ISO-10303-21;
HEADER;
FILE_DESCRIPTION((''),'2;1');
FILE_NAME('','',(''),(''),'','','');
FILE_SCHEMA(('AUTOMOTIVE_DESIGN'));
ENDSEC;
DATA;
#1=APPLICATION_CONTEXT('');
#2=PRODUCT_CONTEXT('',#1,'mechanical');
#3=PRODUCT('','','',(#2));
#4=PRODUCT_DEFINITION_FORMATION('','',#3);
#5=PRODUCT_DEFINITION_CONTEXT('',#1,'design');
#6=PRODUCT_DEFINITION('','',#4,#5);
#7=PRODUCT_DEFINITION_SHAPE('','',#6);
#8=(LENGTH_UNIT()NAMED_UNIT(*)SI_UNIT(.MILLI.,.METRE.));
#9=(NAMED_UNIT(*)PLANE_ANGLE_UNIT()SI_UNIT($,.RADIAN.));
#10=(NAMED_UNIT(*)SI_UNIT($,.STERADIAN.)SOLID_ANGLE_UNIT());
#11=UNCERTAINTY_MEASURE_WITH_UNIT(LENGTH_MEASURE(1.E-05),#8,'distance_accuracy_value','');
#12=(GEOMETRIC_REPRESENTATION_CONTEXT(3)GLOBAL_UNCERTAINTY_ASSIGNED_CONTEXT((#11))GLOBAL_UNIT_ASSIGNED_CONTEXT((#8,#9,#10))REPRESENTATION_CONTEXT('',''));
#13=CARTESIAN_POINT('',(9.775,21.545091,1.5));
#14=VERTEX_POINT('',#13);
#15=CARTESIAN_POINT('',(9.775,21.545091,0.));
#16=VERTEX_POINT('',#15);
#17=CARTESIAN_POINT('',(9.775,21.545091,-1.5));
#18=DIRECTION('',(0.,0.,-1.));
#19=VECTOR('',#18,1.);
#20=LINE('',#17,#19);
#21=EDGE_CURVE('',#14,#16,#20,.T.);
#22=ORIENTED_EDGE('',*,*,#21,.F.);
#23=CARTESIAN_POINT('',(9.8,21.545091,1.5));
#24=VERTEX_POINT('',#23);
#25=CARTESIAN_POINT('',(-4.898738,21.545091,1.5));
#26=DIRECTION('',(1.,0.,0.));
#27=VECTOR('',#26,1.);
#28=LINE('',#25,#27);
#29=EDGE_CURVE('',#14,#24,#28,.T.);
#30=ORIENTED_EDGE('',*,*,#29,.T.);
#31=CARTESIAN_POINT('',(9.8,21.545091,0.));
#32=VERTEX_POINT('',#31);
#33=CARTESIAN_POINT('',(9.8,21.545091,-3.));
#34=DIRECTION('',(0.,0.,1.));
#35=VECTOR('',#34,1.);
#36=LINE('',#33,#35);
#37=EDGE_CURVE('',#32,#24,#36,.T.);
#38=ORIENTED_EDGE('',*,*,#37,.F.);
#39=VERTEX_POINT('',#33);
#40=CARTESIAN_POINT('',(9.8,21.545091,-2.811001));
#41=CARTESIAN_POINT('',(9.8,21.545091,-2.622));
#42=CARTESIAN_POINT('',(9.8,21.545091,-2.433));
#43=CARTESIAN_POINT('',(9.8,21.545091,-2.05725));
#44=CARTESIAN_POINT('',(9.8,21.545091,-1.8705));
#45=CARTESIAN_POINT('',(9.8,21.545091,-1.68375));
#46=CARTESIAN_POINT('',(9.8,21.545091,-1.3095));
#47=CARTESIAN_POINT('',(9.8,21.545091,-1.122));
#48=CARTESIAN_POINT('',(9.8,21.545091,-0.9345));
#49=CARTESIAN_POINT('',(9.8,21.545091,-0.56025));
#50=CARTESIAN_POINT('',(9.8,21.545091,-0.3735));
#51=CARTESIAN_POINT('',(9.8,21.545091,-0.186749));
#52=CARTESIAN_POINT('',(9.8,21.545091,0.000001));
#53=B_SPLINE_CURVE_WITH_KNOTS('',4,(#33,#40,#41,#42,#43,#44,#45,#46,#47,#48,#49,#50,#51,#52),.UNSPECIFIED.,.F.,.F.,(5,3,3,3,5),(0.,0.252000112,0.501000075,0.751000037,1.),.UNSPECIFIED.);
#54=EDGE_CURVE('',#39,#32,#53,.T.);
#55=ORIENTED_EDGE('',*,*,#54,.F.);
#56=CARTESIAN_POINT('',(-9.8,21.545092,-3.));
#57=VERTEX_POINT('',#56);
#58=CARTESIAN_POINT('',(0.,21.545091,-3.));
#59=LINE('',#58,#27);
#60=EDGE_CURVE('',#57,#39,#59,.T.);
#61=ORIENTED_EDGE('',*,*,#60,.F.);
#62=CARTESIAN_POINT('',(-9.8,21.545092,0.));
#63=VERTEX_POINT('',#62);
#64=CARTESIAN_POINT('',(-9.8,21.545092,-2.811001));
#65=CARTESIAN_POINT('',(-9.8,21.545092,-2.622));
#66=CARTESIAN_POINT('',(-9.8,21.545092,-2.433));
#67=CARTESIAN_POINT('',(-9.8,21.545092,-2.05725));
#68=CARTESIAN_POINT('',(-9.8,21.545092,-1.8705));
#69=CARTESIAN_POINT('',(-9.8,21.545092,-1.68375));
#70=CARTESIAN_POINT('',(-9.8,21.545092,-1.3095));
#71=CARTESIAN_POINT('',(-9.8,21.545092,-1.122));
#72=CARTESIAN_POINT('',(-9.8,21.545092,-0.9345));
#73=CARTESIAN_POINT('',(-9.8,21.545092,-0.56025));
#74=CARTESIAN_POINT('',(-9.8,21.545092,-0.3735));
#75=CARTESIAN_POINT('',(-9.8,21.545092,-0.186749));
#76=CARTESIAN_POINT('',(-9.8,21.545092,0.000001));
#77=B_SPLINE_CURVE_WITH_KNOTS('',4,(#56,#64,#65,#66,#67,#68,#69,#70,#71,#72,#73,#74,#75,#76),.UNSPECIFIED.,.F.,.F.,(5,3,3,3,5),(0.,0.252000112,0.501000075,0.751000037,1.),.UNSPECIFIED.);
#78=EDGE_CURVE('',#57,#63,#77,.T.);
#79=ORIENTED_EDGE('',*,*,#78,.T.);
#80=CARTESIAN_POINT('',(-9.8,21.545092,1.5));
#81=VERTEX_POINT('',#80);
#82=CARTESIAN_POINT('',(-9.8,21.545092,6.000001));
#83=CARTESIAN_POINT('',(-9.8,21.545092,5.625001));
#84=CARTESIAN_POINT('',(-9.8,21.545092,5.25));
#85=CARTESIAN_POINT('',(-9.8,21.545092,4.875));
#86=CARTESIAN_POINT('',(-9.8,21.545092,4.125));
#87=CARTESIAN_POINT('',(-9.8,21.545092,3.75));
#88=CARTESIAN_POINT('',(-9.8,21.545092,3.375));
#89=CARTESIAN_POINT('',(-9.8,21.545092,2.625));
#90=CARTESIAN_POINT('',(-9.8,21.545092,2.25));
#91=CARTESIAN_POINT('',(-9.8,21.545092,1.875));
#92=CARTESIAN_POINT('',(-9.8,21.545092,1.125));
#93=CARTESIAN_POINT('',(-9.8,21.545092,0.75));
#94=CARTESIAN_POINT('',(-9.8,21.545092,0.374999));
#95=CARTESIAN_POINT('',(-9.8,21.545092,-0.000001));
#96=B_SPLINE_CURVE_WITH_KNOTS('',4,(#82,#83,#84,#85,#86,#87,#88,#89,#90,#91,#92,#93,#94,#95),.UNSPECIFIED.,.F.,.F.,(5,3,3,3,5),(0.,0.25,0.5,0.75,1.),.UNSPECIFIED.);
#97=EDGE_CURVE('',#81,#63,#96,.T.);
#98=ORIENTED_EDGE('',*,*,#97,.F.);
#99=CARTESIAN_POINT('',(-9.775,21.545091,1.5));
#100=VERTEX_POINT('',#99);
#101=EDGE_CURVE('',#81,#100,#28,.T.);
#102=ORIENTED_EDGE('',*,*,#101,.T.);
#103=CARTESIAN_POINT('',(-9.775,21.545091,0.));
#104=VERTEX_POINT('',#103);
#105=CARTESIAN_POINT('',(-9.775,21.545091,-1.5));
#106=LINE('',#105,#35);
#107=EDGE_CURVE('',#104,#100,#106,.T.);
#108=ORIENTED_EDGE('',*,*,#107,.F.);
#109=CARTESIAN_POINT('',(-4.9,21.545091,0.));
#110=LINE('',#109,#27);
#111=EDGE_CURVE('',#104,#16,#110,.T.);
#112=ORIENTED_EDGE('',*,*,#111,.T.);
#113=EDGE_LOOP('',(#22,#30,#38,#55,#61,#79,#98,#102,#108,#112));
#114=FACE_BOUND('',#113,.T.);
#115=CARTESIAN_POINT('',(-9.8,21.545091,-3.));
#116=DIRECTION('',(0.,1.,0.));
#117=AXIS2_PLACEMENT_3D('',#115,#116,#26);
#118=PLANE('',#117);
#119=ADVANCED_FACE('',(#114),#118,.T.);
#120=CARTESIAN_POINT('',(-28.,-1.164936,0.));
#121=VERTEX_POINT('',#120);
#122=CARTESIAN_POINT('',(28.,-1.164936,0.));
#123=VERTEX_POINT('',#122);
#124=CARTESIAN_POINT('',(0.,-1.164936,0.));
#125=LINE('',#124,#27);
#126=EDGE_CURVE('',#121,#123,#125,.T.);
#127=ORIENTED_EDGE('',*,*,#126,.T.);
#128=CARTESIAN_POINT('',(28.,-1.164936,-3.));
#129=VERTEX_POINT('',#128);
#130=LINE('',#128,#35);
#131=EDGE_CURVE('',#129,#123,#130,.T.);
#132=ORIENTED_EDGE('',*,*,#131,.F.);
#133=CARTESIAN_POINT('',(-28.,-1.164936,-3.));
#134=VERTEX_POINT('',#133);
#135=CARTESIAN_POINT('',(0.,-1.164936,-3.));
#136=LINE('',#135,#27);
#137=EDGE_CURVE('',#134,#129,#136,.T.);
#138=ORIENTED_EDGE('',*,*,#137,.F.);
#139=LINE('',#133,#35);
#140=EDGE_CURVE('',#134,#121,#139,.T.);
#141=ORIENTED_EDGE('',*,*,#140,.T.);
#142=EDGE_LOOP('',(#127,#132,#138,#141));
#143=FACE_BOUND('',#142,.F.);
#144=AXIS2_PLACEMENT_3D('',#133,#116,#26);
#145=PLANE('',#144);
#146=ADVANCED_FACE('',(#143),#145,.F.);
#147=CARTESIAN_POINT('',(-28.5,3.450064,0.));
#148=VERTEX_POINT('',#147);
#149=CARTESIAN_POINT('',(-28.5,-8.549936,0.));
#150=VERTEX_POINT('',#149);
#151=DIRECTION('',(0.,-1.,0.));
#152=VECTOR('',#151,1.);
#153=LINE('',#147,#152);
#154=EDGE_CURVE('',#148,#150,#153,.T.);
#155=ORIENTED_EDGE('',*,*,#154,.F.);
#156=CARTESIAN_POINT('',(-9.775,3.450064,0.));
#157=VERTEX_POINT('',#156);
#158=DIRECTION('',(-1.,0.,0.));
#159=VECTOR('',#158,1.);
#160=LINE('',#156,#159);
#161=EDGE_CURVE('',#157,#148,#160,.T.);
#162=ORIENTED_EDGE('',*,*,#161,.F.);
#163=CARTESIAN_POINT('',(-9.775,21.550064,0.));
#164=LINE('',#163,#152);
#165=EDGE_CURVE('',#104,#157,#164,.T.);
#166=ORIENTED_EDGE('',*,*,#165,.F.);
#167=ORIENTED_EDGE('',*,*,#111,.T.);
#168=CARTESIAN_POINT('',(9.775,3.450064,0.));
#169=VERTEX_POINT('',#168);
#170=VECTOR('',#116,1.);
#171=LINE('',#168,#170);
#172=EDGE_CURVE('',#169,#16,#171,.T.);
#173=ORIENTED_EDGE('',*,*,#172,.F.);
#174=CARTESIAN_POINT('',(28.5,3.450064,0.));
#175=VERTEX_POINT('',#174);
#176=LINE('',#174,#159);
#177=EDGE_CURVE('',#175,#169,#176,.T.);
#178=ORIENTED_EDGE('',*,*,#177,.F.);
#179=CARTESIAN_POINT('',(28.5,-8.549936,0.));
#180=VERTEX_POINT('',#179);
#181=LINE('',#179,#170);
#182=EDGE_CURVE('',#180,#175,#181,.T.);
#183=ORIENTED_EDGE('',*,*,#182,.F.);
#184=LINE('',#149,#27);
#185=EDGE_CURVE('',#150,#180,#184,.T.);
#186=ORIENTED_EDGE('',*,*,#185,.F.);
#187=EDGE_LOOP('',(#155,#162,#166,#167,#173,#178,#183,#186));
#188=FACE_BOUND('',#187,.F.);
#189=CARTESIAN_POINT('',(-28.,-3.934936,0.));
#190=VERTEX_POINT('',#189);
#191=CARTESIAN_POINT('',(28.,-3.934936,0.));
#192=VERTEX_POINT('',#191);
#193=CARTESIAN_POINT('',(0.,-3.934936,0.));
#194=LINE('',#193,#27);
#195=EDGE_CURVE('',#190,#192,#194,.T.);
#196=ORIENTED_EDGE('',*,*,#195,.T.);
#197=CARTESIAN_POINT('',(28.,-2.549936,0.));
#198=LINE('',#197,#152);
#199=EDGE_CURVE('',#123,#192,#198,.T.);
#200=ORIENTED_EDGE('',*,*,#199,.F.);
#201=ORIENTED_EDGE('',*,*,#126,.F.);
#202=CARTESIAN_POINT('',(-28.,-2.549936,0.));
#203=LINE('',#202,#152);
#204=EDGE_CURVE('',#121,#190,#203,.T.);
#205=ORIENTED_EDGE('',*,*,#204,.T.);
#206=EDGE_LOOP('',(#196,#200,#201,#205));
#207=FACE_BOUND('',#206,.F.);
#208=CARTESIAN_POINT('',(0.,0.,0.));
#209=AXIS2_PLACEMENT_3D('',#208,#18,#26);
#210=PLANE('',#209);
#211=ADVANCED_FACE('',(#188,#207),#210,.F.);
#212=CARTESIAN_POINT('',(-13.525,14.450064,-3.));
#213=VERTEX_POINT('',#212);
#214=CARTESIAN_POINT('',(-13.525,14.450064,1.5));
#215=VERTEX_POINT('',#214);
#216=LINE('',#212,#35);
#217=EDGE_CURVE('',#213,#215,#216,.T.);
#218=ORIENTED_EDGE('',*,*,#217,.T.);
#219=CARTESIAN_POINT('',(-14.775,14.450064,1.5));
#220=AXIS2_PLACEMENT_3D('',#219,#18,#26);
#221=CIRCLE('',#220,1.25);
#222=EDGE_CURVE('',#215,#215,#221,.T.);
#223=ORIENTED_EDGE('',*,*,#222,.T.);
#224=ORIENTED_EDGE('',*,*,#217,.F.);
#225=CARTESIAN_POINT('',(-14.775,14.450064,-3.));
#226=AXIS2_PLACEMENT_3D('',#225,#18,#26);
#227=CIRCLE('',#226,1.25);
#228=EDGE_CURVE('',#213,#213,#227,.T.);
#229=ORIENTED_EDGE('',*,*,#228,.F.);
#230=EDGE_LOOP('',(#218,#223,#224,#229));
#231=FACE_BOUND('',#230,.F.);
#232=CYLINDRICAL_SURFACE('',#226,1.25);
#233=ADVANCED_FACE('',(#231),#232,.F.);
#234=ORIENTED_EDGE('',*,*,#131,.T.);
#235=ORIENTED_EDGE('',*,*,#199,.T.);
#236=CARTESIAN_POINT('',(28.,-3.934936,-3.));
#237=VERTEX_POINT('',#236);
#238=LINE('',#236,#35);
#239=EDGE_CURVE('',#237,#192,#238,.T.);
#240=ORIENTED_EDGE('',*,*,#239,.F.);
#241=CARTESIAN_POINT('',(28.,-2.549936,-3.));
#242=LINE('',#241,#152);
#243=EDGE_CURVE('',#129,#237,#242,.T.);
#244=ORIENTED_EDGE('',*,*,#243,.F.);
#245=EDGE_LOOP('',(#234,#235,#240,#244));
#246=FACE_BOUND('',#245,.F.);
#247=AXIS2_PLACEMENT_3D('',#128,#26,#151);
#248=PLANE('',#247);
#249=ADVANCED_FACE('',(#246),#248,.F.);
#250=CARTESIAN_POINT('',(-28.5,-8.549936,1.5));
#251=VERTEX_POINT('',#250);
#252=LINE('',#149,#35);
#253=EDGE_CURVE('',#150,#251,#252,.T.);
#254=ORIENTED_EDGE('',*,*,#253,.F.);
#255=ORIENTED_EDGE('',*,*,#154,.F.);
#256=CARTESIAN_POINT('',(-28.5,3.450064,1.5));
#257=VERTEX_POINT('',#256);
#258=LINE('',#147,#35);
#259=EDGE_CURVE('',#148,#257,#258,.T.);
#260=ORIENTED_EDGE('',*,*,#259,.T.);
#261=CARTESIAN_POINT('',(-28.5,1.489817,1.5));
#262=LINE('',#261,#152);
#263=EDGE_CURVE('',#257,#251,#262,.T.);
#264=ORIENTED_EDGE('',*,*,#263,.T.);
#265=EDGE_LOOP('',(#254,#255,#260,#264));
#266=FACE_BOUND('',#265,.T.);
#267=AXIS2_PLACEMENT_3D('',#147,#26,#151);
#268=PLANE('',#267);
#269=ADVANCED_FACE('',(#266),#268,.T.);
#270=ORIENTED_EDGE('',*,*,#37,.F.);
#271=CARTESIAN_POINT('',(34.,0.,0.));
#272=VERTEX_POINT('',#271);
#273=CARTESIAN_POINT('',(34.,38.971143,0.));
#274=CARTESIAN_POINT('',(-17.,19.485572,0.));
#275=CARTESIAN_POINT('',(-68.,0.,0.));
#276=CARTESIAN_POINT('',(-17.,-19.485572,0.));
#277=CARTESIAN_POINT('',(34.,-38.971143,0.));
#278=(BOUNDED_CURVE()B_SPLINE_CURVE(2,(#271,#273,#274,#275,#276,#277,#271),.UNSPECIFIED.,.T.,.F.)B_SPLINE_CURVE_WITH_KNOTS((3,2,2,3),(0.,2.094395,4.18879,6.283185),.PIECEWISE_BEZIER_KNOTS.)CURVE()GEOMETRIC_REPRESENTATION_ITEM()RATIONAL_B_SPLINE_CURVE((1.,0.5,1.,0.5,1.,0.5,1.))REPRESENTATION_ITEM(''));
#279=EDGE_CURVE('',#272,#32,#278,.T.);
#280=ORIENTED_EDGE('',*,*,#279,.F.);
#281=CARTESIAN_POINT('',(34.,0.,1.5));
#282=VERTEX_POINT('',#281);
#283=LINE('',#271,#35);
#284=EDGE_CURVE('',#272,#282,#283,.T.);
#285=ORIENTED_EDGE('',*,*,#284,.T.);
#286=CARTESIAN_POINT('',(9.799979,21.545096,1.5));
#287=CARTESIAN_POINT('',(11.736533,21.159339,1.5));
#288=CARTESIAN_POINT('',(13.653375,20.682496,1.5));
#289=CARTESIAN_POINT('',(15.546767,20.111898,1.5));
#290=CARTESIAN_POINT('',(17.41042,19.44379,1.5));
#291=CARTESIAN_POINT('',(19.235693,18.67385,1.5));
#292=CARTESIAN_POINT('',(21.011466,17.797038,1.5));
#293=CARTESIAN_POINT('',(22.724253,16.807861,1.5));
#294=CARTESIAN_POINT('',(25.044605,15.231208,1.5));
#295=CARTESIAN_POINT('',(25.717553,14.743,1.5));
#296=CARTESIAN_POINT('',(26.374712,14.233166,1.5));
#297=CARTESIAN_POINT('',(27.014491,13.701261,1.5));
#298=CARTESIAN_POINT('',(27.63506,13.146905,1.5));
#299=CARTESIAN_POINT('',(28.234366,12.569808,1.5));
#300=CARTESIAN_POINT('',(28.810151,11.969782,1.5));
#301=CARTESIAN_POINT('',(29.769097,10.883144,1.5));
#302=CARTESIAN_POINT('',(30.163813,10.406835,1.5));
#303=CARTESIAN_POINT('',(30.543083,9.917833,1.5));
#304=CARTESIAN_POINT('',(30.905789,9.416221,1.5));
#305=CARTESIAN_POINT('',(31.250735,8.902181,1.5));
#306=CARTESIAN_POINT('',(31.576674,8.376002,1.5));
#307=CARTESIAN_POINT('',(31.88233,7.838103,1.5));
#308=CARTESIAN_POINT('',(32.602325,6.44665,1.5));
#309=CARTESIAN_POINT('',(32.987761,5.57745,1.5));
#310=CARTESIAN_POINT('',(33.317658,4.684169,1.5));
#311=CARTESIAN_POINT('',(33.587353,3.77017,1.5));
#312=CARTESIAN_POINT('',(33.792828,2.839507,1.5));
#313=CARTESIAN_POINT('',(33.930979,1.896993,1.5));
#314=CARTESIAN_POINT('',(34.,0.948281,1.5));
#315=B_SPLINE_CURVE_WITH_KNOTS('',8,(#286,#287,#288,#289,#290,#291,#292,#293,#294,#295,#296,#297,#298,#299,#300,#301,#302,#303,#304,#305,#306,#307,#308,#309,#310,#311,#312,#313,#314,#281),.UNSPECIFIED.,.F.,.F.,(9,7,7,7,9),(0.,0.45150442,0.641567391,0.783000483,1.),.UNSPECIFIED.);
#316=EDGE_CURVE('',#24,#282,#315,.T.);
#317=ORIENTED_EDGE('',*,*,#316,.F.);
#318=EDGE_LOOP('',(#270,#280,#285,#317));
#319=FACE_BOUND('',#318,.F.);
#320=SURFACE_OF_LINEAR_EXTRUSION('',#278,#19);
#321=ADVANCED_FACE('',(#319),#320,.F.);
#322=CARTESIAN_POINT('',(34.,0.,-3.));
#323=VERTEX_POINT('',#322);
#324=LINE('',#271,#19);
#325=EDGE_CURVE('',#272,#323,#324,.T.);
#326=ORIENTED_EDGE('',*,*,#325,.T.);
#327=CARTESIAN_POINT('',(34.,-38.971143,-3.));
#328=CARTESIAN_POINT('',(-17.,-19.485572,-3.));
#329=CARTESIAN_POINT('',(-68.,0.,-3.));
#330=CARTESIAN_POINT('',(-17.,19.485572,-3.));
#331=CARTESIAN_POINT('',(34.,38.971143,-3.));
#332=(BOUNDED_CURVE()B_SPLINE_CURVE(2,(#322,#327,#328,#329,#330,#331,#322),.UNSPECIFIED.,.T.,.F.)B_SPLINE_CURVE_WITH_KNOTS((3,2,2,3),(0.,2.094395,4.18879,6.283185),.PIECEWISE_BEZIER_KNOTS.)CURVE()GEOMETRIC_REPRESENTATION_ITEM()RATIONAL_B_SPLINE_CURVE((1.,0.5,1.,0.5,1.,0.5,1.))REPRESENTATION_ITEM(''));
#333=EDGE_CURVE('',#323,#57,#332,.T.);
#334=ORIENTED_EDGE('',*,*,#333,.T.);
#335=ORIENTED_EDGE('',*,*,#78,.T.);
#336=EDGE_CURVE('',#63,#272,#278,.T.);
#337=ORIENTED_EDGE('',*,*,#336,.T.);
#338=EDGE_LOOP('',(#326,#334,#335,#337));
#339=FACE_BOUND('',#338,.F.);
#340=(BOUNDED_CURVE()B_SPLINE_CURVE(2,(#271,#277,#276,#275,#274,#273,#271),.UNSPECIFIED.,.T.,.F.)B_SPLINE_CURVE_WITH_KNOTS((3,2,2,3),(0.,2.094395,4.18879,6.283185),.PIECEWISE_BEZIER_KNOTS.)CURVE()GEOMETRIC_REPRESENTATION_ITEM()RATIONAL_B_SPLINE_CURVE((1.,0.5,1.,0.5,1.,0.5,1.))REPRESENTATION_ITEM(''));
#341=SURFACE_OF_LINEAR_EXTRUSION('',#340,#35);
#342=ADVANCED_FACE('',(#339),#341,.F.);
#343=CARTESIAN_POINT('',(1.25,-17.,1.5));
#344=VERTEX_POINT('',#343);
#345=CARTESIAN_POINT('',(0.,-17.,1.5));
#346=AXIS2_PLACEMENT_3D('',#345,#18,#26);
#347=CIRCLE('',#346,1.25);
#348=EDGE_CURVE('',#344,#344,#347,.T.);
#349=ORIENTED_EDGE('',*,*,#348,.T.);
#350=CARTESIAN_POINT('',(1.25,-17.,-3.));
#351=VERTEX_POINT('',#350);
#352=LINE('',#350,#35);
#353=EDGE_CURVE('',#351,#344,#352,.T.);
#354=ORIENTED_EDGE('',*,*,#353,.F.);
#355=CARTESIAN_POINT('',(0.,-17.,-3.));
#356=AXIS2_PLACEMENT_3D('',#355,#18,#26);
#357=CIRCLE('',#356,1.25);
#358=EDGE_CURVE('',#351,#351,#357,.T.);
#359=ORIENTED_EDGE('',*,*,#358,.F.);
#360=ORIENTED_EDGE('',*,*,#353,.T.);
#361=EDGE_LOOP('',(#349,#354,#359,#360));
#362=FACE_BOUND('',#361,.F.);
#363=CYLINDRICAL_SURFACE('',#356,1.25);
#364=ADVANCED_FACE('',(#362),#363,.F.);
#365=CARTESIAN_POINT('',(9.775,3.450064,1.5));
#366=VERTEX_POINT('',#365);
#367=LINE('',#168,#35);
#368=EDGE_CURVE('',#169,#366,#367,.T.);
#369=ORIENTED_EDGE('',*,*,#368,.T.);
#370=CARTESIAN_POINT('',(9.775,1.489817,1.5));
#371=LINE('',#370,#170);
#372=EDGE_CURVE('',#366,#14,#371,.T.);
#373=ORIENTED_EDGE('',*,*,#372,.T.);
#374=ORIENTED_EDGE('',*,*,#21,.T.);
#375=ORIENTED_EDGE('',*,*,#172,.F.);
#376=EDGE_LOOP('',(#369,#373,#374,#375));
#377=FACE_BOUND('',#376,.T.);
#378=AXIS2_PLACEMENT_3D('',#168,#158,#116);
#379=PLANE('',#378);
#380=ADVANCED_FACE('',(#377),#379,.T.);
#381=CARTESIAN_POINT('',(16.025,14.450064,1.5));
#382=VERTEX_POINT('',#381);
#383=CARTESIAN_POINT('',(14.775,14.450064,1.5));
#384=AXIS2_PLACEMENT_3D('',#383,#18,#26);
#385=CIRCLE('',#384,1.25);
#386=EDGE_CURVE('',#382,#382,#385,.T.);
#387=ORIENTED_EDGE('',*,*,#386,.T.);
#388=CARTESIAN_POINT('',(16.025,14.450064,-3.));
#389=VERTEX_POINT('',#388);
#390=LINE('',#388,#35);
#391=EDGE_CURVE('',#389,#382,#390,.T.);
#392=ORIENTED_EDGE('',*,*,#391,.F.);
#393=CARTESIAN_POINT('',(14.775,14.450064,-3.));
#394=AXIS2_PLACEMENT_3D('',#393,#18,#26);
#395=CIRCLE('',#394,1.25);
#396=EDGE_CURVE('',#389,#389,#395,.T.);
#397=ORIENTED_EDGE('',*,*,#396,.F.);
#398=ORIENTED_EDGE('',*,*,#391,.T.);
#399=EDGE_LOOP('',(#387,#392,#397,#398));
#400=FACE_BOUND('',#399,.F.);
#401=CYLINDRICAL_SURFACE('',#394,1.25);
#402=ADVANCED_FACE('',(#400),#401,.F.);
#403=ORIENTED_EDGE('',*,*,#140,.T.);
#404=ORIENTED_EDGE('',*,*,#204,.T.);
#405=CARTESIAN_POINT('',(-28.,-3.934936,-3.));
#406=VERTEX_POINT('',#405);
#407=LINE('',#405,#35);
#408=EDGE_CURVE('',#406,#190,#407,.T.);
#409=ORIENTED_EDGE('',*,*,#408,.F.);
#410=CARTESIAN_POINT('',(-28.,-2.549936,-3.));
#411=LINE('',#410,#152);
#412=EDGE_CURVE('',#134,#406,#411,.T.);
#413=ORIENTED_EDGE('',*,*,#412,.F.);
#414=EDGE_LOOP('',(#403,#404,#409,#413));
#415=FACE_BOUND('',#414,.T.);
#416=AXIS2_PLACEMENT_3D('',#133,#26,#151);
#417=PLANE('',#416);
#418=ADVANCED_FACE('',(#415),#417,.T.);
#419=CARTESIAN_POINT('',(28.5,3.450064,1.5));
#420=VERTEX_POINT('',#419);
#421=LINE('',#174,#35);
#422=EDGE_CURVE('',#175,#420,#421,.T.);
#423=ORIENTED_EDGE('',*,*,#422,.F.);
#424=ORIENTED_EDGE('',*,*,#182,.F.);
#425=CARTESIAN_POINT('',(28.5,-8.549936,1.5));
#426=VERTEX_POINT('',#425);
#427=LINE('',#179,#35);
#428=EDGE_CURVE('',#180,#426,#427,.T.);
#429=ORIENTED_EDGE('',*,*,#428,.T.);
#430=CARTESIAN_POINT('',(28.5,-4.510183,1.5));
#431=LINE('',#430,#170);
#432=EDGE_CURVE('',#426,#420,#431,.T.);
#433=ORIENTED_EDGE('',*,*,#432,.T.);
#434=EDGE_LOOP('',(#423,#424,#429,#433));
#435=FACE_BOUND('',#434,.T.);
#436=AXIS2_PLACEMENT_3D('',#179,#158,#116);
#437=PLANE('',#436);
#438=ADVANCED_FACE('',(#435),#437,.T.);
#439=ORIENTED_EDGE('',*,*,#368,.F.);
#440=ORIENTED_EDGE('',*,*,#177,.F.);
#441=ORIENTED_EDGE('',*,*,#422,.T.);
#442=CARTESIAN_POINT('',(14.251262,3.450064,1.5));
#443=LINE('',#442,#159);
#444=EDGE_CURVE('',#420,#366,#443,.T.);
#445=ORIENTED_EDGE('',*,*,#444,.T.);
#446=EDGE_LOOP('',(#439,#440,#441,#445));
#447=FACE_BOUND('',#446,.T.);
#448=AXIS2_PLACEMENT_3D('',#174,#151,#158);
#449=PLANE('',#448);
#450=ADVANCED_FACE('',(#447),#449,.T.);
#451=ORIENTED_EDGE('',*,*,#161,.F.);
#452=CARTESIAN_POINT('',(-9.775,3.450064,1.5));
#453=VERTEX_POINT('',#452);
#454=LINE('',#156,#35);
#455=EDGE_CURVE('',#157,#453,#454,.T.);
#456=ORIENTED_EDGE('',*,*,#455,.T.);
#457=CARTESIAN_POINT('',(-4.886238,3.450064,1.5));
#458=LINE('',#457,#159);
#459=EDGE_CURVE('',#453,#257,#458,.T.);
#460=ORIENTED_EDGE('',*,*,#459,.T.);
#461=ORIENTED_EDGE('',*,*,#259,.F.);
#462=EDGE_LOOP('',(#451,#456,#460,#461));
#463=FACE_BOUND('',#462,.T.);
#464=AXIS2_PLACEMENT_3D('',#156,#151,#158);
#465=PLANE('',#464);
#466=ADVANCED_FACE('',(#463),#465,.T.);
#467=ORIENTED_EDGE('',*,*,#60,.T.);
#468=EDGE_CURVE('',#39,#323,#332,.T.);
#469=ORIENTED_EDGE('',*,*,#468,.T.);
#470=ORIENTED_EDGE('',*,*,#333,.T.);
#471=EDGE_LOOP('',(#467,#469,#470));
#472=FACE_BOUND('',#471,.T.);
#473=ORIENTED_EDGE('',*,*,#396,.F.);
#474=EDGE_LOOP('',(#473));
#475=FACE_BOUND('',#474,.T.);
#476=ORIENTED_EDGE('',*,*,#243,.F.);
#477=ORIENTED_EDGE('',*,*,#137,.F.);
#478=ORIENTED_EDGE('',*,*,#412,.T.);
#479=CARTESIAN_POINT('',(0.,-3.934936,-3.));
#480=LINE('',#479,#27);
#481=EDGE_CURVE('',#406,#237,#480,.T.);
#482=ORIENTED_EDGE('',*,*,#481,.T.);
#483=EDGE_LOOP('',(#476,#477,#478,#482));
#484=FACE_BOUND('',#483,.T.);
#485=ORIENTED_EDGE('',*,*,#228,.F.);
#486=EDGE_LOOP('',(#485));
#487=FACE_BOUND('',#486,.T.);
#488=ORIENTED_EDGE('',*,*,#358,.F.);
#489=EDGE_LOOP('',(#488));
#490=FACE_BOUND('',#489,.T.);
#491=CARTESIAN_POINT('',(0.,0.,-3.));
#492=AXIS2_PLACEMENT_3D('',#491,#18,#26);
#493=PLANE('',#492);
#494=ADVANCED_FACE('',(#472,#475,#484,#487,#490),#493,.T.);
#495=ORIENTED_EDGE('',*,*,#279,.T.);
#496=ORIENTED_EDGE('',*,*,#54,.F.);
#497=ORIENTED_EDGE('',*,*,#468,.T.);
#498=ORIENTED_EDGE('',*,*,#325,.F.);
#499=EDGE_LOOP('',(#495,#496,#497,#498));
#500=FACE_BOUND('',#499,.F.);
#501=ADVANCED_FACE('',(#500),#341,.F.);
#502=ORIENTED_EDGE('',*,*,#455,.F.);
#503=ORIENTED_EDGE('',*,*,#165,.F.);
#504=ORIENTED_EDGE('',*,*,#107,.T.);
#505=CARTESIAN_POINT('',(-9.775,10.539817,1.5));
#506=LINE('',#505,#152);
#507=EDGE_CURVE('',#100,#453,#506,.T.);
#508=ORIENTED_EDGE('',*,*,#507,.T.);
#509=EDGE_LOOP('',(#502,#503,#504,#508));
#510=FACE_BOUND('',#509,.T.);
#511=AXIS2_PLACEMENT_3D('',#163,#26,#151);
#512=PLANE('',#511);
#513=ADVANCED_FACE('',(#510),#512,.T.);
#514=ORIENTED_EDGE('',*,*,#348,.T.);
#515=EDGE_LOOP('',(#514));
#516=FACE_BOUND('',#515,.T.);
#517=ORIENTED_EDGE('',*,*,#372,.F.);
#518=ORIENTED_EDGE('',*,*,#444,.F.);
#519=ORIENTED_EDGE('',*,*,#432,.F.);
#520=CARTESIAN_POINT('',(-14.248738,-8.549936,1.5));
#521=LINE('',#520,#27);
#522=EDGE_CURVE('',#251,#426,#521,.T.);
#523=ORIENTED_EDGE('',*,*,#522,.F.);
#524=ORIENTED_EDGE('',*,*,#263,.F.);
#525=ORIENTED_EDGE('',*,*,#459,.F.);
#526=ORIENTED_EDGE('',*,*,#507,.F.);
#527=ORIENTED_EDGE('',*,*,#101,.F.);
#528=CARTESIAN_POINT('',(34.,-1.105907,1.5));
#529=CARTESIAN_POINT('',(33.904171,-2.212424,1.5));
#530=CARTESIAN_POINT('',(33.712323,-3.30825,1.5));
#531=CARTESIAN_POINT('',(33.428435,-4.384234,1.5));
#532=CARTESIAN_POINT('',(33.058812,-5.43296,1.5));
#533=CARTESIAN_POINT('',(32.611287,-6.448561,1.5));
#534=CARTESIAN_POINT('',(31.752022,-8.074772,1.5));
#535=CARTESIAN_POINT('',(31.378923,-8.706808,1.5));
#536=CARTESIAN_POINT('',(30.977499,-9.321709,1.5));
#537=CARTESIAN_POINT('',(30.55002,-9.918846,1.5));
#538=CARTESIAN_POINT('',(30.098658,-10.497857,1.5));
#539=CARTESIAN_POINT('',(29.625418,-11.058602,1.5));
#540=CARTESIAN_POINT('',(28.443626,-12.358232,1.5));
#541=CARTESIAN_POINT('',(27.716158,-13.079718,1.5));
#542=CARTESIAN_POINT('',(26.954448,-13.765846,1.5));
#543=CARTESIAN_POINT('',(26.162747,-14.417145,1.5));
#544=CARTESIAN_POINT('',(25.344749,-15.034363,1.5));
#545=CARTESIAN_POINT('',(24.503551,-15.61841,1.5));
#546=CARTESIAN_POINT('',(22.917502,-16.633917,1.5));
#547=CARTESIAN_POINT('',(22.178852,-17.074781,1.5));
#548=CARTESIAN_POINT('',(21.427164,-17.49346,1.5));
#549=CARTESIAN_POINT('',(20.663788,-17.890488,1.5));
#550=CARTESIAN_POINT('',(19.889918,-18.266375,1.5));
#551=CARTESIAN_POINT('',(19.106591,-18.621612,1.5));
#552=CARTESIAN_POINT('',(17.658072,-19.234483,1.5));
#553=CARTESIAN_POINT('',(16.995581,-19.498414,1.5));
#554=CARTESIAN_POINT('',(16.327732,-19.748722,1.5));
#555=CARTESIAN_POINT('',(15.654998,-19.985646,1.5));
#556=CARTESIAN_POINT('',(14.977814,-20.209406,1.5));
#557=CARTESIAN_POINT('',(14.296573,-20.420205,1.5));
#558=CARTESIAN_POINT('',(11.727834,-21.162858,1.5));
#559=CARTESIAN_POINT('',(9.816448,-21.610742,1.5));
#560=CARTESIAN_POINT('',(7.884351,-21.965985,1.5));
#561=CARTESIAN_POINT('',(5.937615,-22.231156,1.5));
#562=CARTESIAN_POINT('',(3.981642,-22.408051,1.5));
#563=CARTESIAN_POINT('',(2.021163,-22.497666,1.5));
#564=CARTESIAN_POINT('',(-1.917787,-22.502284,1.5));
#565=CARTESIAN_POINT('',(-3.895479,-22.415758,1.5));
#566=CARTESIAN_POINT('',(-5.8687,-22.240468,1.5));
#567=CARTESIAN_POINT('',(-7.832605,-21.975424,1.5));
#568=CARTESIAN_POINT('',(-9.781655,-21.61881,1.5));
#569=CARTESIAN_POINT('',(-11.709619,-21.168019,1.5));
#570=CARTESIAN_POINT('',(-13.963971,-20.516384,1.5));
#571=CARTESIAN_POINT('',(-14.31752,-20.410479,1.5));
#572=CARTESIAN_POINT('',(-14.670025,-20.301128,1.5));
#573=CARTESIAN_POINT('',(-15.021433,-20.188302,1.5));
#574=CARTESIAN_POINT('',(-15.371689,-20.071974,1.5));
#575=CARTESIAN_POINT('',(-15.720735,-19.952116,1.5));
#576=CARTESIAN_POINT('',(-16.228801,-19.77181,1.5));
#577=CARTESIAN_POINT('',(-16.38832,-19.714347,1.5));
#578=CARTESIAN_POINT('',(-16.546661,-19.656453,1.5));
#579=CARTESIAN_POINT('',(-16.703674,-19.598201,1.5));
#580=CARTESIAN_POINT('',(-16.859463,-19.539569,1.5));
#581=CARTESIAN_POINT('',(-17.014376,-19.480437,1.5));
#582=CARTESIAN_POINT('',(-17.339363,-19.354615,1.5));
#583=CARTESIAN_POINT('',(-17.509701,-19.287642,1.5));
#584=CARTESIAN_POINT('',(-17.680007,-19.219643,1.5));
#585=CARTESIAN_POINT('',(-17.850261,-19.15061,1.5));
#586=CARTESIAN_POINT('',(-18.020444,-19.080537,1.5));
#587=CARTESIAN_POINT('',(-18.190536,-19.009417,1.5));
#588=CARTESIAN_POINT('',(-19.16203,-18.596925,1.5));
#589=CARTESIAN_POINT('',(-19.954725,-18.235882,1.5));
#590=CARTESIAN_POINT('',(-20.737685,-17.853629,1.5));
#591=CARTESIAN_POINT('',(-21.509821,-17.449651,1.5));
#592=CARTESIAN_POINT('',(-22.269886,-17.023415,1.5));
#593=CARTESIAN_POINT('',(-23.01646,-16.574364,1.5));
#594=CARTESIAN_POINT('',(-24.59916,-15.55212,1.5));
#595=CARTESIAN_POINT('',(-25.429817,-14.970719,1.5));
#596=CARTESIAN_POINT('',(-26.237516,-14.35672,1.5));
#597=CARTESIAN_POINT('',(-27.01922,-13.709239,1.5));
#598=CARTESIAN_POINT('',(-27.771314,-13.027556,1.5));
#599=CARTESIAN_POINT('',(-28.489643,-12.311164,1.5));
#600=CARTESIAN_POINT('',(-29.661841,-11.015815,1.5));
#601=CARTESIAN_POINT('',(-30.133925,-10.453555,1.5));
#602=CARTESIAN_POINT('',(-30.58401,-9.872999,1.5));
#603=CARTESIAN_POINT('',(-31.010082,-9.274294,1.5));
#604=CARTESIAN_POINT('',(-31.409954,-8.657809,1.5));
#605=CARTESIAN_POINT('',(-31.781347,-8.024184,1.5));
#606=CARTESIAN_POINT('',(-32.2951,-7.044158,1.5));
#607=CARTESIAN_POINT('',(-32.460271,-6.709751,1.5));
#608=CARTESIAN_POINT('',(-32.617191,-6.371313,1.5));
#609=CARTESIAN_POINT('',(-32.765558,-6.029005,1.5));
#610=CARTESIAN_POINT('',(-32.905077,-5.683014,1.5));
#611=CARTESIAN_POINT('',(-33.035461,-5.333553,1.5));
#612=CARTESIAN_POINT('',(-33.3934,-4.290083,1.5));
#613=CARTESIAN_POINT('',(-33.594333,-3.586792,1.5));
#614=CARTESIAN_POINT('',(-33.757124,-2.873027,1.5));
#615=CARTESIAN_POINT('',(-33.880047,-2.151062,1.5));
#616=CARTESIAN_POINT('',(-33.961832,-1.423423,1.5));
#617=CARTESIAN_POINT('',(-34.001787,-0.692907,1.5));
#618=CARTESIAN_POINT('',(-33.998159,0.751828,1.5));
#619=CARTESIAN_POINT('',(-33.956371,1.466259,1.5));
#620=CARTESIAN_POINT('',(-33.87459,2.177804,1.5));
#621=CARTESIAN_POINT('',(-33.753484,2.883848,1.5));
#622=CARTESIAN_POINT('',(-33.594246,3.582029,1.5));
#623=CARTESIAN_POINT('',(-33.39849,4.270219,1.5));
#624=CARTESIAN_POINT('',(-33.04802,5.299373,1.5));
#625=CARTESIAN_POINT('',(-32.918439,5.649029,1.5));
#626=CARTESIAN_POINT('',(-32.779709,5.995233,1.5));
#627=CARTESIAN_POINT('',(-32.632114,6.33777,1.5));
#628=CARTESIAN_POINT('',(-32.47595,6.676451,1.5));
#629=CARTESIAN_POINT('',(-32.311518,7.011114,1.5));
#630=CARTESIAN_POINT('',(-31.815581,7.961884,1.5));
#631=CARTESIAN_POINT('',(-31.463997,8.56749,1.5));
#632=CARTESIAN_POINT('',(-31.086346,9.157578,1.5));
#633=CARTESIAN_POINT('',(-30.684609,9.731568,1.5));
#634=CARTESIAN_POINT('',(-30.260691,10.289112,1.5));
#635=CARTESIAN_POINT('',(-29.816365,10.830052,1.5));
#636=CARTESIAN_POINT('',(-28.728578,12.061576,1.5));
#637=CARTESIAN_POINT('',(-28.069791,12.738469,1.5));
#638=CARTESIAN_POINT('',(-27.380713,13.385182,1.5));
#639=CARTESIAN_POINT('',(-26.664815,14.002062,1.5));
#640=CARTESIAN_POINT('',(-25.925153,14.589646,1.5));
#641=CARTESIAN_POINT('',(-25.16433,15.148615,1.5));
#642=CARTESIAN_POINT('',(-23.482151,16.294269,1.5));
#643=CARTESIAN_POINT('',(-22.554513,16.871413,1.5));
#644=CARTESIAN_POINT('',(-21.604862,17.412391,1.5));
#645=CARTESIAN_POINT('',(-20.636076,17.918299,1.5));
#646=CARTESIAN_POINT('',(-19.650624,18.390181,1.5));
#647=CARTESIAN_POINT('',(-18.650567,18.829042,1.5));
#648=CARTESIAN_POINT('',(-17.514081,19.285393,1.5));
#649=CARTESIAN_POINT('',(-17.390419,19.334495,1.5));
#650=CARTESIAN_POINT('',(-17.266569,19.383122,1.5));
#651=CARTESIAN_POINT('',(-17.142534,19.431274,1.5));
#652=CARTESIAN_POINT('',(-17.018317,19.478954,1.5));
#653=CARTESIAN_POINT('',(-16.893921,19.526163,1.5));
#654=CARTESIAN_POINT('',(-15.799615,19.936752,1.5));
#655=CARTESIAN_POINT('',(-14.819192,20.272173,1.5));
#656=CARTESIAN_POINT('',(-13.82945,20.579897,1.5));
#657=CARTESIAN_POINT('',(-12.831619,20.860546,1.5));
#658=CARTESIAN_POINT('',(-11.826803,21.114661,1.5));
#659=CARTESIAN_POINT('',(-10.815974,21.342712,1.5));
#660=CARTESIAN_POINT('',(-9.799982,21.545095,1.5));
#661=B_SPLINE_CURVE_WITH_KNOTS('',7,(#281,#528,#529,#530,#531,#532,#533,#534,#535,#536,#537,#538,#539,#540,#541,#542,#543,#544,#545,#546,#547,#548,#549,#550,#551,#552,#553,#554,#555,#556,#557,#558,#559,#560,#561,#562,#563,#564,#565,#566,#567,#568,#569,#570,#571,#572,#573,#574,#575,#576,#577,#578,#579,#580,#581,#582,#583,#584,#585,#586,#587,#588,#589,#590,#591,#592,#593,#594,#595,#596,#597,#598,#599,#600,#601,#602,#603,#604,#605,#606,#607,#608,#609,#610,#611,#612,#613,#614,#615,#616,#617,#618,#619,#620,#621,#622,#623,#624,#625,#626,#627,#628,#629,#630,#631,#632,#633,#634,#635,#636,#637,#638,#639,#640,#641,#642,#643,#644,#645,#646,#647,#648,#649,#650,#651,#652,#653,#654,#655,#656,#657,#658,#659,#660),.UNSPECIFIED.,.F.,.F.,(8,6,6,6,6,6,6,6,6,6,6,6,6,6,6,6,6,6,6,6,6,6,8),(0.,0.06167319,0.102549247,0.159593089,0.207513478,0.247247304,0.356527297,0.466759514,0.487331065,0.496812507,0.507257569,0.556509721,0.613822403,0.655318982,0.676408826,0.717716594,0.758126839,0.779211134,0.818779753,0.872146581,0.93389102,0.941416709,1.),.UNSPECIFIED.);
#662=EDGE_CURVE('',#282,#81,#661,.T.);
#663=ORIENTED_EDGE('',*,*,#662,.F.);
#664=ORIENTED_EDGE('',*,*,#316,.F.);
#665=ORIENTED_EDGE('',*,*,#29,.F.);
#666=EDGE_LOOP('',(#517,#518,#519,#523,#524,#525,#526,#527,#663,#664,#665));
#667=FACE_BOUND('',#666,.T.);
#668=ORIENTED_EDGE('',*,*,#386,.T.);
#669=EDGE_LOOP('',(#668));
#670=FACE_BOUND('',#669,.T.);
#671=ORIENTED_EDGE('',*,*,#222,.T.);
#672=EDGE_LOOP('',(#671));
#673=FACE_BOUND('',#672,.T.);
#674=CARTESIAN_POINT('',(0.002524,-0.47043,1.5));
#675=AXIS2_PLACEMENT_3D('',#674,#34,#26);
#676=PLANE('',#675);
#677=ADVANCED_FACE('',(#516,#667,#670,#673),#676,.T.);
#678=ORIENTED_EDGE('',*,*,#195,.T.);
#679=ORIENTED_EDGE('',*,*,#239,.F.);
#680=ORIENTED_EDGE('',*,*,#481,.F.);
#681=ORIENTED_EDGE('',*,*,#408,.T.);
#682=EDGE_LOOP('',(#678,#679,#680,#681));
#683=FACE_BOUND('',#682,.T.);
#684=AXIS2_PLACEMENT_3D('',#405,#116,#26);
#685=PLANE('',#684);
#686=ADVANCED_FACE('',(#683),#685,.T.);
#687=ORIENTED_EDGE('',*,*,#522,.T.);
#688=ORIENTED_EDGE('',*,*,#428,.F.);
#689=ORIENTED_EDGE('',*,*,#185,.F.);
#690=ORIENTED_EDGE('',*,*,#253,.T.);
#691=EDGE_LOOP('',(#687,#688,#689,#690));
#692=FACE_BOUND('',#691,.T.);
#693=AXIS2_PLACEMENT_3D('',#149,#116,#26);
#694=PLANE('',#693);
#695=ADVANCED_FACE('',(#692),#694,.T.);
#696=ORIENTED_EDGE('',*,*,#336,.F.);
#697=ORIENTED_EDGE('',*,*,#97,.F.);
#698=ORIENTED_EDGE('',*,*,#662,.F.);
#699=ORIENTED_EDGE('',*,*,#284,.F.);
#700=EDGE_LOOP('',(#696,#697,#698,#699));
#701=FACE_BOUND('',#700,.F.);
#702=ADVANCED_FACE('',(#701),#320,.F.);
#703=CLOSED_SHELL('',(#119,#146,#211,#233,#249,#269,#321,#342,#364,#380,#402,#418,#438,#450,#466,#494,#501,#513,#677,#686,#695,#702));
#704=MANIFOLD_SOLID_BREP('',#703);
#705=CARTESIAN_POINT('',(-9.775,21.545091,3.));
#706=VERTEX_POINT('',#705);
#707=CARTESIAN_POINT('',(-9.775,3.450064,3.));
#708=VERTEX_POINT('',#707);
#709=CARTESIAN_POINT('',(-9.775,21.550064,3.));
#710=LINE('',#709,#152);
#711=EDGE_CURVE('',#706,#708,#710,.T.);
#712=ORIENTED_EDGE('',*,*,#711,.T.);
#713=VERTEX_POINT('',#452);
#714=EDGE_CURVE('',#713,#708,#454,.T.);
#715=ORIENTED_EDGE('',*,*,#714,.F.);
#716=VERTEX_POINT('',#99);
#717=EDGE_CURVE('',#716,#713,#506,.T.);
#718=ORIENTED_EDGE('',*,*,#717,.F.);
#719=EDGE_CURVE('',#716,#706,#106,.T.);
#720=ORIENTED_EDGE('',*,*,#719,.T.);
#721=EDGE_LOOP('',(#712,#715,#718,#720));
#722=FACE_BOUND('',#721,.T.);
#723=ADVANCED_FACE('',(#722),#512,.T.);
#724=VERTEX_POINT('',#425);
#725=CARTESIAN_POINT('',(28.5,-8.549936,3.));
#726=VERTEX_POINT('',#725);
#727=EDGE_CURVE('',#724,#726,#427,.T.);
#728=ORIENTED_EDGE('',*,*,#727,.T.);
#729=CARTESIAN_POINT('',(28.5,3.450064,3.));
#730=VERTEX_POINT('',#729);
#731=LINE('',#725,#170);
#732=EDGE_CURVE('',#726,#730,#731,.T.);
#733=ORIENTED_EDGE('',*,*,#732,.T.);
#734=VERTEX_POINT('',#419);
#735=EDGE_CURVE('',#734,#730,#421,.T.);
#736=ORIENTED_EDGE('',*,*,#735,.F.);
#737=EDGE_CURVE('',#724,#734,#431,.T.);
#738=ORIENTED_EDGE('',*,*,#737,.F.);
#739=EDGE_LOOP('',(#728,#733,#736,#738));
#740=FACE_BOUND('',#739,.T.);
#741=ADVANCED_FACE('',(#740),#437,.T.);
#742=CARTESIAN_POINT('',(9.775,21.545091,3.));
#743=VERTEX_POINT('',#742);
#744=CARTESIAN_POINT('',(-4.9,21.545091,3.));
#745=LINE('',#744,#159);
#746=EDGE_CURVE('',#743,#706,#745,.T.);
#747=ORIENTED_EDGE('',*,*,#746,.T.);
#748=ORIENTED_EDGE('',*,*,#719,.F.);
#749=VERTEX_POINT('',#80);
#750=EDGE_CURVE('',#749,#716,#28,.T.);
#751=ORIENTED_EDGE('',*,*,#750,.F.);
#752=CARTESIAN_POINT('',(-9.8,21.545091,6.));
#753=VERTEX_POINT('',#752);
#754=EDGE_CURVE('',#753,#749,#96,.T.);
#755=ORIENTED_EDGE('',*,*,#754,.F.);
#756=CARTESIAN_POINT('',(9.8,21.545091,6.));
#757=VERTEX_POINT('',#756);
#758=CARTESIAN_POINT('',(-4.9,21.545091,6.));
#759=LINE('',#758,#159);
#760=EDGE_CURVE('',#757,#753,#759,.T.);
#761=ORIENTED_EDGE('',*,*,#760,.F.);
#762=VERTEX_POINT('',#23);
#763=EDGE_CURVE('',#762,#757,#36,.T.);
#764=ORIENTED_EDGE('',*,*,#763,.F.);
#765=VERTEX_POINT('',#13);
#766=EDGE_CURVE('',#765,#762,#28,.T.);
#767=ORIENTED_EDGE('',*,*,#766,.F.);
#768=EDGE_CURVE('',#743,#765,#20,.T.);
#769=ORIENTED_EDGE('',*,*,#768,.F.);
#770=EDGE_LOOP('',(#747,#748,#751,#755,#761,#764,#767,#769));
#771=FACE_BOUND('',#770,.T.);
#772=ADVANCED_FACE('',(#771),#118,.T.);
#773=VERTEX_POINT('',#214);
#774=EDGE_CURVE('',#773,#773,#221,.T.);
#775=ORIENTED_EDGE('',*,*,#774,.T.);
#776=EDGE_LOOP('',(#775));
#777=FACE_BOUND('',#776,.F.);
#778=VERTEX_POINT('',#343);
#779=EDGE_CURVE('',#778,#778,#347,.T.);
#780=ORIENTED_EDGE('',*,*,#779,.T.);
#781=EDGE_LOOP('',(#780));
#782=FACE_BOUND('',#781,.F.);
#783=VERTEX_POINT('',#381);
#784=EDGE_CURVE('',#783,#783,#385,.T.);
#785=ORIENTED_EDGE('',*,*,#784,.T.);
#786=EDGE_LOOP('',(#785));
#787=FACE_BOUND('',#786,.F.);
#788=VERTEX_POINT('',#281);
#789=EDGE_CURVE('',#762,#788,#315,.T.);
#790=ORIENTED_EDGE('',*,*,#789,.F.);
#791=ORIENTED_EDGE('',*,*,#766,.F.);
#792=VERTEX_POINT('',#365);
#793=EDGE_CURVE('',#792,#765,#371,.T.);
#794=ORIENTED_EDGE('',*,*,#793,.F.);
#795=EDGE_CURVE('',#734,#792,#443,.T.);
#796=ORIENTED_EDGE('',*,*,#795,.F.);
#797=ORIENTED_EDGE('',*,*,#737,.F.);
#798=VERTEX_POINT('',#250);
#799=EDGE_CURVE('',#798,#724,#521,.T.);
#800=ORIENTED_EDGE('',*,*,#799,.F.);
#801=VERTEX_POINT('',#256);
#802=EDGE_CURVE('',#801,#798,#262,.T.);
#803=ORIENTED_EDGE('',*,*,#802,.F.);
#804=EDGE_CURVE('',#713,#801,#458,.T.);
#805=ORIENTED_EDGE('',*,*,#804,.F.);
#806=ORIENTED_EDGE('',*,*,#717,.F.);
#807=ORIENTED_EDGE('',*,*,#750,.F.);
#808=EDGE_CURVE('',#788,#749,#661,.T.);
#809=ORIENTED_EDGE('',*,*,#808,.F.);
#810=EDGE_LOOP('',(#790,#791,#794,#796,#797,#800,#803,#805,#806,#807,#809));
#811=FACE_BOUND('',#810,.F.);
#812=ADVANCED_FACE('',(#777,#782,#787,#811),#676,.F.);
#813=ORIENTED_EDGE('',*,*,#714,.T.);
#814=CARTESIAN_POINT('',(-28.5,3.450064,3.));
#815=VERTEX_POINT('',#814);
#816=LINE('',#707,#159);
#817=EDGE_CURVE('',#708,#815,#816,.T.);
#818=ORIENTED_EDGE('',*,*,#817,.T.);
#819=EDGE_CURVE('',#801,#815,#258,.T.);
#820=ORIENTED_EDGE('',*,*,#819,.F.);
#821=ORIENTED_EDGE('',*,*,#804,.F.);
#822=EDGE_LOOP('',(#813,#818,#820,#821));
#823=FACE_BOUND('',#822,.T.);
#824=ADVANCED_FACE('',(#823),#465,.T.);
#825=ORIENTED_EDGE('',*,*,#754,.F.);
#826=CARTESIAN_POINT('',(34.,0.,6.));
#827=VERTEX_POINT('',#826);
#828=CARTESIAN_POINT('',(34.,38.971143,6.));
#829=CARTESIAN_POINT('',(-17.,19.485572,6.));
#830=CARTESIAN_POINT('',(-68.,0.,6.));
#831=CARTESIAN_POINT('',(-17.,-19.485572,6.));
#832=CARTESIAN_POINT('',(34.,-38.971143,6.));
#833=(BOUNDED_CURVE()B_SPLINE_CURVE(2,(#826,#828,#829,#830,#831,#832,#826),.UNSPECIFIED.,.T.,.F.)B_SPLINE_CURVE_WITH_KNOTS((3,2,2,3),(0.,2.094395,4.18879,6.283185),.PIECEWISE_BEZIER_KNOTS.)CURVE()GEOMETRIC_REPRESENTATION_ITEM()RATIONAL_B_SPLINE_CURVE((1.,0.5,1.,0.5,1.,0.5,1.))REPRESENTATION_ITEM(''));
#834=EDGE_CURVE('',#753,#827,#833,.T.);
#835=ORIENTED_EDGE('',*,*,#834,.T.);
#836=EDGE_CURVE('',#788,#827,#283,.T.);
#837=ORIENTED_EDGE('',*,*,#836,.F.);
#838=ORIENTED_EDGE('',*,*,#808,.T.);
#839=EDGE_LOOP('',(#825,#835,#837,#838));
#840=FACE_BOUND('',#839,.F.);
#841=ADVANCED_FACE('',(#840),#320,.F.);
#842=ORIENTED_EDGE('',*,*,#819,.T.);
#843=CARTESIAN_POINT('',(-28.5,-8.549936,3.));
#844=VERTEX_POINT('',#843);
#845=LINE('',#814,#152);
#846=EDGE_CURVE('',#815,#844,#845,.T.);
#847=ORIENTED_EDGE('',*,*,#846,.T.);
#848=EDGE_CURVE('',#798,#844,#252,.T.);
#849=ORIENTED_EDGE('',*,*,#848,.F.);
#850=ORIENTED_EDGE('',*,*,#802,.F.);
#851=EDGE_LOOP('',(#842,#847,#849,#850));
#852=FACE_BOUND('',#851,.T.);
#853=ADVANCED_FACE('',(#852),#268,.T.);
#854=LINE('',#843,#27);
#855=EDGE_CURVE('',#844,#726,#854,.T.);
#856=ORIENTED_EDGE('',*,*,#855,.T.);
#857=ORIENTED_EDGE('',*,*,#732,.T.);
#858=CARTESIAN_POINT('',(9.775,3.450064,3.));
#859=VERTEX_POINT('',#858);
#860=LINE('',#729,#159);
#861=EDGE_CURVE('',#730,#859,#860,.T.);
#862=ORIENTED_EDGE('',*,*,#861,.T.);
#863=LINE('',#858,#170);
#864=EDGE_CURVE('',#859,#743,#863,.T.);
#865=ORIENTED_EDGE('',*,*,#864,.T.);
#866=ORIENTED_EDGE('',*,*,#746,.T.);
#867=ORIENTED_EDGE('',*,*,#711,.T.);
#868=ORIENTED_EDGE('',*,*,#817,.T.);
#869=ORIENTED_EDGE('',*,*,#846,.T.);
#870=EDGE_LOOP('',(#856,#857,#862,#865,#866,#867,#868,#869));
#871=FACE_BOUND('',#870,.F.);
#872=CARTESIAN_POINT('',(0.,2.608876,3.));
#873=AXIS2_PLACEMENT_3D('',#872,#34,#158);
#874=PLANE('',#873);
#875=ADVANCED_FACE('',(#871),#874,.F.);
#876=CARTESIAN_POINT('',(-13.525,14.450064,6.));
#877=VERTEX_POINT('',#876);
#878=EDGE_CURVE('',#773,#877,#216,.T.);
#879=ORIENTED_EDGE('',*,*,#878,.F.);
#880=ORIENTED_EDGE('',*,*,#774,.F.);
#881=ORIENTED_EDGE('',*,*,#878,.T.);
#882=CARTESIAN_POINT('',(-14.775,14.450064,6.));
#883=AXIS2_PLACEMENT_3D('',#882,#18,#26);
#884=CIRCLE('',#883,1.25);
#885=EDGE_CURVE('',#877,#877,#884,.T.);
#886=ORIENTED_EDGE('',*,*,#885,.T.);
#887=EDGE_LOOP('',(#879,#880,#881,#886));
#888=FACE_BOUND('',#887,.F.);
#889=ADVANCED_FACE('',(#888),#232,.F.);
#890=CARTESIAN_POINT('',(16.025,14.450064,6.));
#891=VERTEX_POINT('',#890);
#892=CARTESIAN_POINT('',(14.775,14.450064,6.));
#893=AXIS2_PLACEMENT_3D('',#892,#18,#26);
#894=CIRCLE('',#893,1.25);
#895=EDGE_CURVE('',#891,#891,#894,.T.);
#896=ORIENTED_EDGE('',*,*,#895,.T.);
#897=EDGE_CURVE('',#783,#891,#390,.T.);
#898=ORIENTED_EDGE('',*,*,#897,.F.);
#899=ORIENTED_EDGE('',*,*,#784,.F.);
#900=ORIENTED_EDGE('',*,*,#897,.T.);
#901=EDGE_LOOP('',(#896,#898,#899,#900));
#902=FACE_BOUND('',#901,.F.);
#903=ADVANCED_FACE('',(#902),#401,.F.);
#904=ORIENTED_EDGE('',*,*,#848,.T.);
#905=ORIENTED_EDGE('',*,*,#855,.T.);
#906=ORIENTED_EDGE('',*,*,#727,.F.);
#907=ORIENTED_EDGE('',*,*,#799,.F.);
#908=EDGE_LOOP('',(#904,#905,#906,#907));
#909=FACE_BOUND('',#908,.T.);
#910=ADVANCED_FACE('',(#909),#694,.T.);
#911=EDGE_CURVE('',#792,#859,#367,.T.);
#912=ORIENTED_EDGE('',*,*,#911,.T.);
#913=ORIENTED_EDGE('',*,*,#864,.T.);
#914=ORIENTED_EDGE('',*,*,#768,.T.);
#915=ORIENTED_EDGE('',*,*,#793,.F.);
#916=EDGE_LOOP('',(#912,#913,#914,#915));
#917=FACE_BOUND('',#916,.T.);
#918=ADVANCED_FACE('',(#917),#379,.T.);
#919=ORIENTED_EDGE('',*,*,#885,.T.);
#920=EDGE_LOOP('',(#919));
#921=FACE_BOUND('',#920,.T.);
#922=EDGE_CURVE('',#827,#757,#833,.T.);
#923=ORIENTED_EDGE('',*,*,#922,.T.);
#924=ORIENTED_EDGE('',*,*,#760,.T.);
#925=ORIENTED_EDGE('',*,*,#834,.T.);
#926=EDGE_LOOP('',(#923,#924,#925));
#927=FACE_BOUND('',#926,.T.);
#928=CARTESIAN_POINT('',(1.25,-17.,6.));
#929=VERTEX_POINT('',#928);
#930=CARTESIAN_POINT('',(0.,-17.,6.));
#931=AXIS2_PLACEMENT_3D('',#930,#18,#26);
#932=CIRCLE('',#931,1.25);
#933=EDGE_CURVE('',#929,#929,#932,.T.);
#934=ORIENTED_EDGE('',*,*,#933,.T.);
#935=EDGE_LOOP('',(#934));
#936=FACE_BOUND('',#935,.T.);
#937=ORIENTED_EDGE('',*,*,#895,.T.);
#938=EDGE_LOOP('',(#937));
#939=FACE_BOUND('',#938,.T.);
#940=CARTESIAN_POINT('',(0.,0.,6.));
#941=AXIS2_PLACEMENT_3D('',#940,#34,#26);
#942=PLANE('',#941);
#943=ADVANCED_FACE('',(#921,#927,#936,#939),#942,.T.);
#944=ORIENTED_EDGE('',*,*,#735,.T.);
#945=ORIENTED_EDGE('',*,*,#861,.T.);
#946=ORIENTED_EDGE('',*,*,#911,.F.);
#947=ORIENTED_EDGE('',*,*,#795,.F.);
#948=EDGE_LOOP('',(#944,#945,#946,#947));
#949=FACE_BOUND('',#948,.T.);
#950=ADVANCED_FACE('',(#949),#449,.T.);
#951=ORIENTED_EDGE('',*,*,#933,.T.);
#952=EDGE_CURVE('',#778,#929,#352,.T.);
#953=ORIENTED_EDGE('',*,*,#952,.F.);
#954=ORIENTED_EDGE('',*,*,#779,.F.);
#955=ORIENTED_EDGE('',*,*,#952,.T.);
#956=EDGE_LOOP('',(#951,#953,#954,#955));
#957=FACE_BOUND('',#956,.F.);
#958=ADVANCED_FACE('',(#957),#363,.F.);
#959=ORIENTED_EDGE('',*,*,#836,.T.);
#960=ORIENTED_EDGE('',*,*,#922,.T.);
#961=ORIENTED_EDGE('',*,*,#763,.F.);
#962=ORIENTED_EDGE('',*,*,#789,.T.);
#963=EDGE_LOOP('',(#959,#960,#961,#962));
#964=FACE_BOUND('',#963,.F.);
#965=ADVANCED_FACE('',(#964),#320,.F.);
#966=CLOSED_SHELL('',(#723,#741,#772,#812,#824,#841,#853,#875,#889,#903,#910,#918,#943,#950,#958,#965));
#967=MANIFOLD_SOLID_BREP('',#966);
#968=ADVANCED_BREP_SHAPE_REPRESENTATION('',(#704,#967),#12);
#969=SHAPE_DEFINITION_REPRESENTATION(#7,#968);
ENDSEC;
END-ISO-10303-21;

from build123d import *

# Parameters (mm, degrees)
BOX_BOTTOM_HALF_0_W     = 69.994952
BOX_BOTTOM_HALF_0_H     = 46.031044
BOX_BOTTOM_HALF_0_DEPTH = 5.5
PAD_DEPTH               = 6
POCKET_DEPTH            = 3
PAD001_DEPTH            = 3
SKETCH003_W             = 56
SKETCH003_H             = 2.77
POCKET001_DEPTH         = 3
SKETCH004_W             = 19.6
SKETCH004_H             = 1
POCKET002_DEPTH         = 9.001
SKETCH005_R             = 1.25
POCKET003_DEPTH         = 9.001


with BuildPart() as box_bottom_half_0_body:
    # box_bottom_half_0 → box_bottom_half_0 (new body)
    with BuildSketch(Plane(origin=(-34.994952, -23.485952, -4), x_dir=(1, 0, 0), z_dir=(0, 0, 1))):
        with Locations((34.997476, 23.015522)):
            Rectangle(BOX_BOTTOM_HALF_0_W, BOX_BOTTOM_HALF_0_H)
    extrude(amount=BOX_BOTTOM_HALF_0_DEPTH)


with BuildPart() as body:
    # Sketch → Pad (new body)
    with BuildSketch(Plane.XY):
        with BuildLine():
            add(Edge.make_bspline(
                [(34, 0), (34, 38.971143), (-17, 19.485572), (-68, 0), (-17, -19.485572), (34, -38.971143), (34, 0)],
                knots=[0, 0, 0, 2.094395, 2.094395, 4.18879, 4.18879, 6.283185, 6.283185, 6.283185], degree=2, weights=[1, 0.5, 1, 0.5, 1, 0.5, 1]))
        make_face()
    extrude(amount=PAD_DEPTH)

    # Sketch001 (on Face2 of Pad) → Pocket (cut)
    with BuildSketch(Plane(origin=(0, 0, 0), x_dir=(1, 0, 0), z_dir=(0, 0, -1))):
        Polygon((9.775, -3.450064), (9.775, -21.550064), (-9.775, -21.550064), (-9.775, -3.450064), (-28.5, -3.450064), (-28.5, 8.549936), (28.5, 8.549936), (28.5, -3.450064), align=None)
    extrude(amount=-POCKET_DEPTH, mode=Mode.SUBTRACT)

    # Sketch002 (on Face2 of Pocket) → Pad001 (join)
    with BuildSketch(Plane(origin=(0, 0, 0), x_dir=(1, 0, 0), z_dir=(0, 0, -1))):
        with BuildLine():
            add(Edge.make_bspline(
                [(34, 0), (34, 38.971143), (-17, 19.485572), (-68, 0), (-17, -19.485572), (34, -38.971143), (34, 0)],
                knots=[0, 0, 0, 2.094395, 2.094395, 4.18879, 4.18879, 6.283185, 6.283185, 6.283185], degree=2, weights=[1, 0.5, 1, 0.5, 1, 0.5, 1]))
        make_face()
    extrude(amount=PAD001_DEPTH)

    # Sketch003 (on Face4 of Pad001) → Pocket001 (cut)
    with BuildSketch(Plane(origin=(0, 0, -3), x_dir=(1, 0, 0), z_dir=(0, 0, -1))):
        with Locations((0, 2.549936)):
            Rectangle(SKETCH003_W, SKETCH003_H)
    extrude(amount=-POCKET001_DEPTH, mode=Mode.SUBTRACT)

    # Sketch004 (on Face4 of Pocket001) → Pocket002 (cut, through all)
    with BuildSketch(Plane(origin=(0, 0, -3), x_dir=(1, 0, 0), z_dir=(0, 0, -1))):
        with Locations((0, -22.045091)):
            Rectangle(SKETCH004_W, SKETCH004_H)
    extrude(amount=-POCKET002_DEPTH, mode=Mode.SUBTRACT)

    # Sketch005 (on Face7 of Pocket002) → Pocket003 (cut, through all)
    with BuildSketch(Plane(origin=(0, 0, -3), x_dir=(1, 0, 0), z_dir=(0, 0, -1))):
        with Locations((-14.775, -14.450064)):
            Circle(SKETCH005_R)
        with Locations((0, 17)):
            Circle(SKETCH005_R)
        with Locations((14.775, -14.450064)):
            Circle(SKETCH005_R)
    extrude(amount=-POCKET003_DEPTH, mode=Mode.SUBTRACT)


with BuildPart() as bottom_half_0_body:
    # bottom_half_0 base: copy of Body
    add(body.part)

    # bottom_half_0: intersect box_bottom_half_0 body
    add(box_bottom_half_0_body.part, mode=Mode.INTERSECT)


with BuildPart() as top_half_0_body:
    # top_half_0 base: copy of Body
    add(body.part)

    # top_half_0: cut box_bottom_half_0 body
    add(box_bottom_half_0_body.part, mode=Mode.SUBTRACT)


solid = Compound([bottom_half_0_body.part, top_half_0_body.part])
